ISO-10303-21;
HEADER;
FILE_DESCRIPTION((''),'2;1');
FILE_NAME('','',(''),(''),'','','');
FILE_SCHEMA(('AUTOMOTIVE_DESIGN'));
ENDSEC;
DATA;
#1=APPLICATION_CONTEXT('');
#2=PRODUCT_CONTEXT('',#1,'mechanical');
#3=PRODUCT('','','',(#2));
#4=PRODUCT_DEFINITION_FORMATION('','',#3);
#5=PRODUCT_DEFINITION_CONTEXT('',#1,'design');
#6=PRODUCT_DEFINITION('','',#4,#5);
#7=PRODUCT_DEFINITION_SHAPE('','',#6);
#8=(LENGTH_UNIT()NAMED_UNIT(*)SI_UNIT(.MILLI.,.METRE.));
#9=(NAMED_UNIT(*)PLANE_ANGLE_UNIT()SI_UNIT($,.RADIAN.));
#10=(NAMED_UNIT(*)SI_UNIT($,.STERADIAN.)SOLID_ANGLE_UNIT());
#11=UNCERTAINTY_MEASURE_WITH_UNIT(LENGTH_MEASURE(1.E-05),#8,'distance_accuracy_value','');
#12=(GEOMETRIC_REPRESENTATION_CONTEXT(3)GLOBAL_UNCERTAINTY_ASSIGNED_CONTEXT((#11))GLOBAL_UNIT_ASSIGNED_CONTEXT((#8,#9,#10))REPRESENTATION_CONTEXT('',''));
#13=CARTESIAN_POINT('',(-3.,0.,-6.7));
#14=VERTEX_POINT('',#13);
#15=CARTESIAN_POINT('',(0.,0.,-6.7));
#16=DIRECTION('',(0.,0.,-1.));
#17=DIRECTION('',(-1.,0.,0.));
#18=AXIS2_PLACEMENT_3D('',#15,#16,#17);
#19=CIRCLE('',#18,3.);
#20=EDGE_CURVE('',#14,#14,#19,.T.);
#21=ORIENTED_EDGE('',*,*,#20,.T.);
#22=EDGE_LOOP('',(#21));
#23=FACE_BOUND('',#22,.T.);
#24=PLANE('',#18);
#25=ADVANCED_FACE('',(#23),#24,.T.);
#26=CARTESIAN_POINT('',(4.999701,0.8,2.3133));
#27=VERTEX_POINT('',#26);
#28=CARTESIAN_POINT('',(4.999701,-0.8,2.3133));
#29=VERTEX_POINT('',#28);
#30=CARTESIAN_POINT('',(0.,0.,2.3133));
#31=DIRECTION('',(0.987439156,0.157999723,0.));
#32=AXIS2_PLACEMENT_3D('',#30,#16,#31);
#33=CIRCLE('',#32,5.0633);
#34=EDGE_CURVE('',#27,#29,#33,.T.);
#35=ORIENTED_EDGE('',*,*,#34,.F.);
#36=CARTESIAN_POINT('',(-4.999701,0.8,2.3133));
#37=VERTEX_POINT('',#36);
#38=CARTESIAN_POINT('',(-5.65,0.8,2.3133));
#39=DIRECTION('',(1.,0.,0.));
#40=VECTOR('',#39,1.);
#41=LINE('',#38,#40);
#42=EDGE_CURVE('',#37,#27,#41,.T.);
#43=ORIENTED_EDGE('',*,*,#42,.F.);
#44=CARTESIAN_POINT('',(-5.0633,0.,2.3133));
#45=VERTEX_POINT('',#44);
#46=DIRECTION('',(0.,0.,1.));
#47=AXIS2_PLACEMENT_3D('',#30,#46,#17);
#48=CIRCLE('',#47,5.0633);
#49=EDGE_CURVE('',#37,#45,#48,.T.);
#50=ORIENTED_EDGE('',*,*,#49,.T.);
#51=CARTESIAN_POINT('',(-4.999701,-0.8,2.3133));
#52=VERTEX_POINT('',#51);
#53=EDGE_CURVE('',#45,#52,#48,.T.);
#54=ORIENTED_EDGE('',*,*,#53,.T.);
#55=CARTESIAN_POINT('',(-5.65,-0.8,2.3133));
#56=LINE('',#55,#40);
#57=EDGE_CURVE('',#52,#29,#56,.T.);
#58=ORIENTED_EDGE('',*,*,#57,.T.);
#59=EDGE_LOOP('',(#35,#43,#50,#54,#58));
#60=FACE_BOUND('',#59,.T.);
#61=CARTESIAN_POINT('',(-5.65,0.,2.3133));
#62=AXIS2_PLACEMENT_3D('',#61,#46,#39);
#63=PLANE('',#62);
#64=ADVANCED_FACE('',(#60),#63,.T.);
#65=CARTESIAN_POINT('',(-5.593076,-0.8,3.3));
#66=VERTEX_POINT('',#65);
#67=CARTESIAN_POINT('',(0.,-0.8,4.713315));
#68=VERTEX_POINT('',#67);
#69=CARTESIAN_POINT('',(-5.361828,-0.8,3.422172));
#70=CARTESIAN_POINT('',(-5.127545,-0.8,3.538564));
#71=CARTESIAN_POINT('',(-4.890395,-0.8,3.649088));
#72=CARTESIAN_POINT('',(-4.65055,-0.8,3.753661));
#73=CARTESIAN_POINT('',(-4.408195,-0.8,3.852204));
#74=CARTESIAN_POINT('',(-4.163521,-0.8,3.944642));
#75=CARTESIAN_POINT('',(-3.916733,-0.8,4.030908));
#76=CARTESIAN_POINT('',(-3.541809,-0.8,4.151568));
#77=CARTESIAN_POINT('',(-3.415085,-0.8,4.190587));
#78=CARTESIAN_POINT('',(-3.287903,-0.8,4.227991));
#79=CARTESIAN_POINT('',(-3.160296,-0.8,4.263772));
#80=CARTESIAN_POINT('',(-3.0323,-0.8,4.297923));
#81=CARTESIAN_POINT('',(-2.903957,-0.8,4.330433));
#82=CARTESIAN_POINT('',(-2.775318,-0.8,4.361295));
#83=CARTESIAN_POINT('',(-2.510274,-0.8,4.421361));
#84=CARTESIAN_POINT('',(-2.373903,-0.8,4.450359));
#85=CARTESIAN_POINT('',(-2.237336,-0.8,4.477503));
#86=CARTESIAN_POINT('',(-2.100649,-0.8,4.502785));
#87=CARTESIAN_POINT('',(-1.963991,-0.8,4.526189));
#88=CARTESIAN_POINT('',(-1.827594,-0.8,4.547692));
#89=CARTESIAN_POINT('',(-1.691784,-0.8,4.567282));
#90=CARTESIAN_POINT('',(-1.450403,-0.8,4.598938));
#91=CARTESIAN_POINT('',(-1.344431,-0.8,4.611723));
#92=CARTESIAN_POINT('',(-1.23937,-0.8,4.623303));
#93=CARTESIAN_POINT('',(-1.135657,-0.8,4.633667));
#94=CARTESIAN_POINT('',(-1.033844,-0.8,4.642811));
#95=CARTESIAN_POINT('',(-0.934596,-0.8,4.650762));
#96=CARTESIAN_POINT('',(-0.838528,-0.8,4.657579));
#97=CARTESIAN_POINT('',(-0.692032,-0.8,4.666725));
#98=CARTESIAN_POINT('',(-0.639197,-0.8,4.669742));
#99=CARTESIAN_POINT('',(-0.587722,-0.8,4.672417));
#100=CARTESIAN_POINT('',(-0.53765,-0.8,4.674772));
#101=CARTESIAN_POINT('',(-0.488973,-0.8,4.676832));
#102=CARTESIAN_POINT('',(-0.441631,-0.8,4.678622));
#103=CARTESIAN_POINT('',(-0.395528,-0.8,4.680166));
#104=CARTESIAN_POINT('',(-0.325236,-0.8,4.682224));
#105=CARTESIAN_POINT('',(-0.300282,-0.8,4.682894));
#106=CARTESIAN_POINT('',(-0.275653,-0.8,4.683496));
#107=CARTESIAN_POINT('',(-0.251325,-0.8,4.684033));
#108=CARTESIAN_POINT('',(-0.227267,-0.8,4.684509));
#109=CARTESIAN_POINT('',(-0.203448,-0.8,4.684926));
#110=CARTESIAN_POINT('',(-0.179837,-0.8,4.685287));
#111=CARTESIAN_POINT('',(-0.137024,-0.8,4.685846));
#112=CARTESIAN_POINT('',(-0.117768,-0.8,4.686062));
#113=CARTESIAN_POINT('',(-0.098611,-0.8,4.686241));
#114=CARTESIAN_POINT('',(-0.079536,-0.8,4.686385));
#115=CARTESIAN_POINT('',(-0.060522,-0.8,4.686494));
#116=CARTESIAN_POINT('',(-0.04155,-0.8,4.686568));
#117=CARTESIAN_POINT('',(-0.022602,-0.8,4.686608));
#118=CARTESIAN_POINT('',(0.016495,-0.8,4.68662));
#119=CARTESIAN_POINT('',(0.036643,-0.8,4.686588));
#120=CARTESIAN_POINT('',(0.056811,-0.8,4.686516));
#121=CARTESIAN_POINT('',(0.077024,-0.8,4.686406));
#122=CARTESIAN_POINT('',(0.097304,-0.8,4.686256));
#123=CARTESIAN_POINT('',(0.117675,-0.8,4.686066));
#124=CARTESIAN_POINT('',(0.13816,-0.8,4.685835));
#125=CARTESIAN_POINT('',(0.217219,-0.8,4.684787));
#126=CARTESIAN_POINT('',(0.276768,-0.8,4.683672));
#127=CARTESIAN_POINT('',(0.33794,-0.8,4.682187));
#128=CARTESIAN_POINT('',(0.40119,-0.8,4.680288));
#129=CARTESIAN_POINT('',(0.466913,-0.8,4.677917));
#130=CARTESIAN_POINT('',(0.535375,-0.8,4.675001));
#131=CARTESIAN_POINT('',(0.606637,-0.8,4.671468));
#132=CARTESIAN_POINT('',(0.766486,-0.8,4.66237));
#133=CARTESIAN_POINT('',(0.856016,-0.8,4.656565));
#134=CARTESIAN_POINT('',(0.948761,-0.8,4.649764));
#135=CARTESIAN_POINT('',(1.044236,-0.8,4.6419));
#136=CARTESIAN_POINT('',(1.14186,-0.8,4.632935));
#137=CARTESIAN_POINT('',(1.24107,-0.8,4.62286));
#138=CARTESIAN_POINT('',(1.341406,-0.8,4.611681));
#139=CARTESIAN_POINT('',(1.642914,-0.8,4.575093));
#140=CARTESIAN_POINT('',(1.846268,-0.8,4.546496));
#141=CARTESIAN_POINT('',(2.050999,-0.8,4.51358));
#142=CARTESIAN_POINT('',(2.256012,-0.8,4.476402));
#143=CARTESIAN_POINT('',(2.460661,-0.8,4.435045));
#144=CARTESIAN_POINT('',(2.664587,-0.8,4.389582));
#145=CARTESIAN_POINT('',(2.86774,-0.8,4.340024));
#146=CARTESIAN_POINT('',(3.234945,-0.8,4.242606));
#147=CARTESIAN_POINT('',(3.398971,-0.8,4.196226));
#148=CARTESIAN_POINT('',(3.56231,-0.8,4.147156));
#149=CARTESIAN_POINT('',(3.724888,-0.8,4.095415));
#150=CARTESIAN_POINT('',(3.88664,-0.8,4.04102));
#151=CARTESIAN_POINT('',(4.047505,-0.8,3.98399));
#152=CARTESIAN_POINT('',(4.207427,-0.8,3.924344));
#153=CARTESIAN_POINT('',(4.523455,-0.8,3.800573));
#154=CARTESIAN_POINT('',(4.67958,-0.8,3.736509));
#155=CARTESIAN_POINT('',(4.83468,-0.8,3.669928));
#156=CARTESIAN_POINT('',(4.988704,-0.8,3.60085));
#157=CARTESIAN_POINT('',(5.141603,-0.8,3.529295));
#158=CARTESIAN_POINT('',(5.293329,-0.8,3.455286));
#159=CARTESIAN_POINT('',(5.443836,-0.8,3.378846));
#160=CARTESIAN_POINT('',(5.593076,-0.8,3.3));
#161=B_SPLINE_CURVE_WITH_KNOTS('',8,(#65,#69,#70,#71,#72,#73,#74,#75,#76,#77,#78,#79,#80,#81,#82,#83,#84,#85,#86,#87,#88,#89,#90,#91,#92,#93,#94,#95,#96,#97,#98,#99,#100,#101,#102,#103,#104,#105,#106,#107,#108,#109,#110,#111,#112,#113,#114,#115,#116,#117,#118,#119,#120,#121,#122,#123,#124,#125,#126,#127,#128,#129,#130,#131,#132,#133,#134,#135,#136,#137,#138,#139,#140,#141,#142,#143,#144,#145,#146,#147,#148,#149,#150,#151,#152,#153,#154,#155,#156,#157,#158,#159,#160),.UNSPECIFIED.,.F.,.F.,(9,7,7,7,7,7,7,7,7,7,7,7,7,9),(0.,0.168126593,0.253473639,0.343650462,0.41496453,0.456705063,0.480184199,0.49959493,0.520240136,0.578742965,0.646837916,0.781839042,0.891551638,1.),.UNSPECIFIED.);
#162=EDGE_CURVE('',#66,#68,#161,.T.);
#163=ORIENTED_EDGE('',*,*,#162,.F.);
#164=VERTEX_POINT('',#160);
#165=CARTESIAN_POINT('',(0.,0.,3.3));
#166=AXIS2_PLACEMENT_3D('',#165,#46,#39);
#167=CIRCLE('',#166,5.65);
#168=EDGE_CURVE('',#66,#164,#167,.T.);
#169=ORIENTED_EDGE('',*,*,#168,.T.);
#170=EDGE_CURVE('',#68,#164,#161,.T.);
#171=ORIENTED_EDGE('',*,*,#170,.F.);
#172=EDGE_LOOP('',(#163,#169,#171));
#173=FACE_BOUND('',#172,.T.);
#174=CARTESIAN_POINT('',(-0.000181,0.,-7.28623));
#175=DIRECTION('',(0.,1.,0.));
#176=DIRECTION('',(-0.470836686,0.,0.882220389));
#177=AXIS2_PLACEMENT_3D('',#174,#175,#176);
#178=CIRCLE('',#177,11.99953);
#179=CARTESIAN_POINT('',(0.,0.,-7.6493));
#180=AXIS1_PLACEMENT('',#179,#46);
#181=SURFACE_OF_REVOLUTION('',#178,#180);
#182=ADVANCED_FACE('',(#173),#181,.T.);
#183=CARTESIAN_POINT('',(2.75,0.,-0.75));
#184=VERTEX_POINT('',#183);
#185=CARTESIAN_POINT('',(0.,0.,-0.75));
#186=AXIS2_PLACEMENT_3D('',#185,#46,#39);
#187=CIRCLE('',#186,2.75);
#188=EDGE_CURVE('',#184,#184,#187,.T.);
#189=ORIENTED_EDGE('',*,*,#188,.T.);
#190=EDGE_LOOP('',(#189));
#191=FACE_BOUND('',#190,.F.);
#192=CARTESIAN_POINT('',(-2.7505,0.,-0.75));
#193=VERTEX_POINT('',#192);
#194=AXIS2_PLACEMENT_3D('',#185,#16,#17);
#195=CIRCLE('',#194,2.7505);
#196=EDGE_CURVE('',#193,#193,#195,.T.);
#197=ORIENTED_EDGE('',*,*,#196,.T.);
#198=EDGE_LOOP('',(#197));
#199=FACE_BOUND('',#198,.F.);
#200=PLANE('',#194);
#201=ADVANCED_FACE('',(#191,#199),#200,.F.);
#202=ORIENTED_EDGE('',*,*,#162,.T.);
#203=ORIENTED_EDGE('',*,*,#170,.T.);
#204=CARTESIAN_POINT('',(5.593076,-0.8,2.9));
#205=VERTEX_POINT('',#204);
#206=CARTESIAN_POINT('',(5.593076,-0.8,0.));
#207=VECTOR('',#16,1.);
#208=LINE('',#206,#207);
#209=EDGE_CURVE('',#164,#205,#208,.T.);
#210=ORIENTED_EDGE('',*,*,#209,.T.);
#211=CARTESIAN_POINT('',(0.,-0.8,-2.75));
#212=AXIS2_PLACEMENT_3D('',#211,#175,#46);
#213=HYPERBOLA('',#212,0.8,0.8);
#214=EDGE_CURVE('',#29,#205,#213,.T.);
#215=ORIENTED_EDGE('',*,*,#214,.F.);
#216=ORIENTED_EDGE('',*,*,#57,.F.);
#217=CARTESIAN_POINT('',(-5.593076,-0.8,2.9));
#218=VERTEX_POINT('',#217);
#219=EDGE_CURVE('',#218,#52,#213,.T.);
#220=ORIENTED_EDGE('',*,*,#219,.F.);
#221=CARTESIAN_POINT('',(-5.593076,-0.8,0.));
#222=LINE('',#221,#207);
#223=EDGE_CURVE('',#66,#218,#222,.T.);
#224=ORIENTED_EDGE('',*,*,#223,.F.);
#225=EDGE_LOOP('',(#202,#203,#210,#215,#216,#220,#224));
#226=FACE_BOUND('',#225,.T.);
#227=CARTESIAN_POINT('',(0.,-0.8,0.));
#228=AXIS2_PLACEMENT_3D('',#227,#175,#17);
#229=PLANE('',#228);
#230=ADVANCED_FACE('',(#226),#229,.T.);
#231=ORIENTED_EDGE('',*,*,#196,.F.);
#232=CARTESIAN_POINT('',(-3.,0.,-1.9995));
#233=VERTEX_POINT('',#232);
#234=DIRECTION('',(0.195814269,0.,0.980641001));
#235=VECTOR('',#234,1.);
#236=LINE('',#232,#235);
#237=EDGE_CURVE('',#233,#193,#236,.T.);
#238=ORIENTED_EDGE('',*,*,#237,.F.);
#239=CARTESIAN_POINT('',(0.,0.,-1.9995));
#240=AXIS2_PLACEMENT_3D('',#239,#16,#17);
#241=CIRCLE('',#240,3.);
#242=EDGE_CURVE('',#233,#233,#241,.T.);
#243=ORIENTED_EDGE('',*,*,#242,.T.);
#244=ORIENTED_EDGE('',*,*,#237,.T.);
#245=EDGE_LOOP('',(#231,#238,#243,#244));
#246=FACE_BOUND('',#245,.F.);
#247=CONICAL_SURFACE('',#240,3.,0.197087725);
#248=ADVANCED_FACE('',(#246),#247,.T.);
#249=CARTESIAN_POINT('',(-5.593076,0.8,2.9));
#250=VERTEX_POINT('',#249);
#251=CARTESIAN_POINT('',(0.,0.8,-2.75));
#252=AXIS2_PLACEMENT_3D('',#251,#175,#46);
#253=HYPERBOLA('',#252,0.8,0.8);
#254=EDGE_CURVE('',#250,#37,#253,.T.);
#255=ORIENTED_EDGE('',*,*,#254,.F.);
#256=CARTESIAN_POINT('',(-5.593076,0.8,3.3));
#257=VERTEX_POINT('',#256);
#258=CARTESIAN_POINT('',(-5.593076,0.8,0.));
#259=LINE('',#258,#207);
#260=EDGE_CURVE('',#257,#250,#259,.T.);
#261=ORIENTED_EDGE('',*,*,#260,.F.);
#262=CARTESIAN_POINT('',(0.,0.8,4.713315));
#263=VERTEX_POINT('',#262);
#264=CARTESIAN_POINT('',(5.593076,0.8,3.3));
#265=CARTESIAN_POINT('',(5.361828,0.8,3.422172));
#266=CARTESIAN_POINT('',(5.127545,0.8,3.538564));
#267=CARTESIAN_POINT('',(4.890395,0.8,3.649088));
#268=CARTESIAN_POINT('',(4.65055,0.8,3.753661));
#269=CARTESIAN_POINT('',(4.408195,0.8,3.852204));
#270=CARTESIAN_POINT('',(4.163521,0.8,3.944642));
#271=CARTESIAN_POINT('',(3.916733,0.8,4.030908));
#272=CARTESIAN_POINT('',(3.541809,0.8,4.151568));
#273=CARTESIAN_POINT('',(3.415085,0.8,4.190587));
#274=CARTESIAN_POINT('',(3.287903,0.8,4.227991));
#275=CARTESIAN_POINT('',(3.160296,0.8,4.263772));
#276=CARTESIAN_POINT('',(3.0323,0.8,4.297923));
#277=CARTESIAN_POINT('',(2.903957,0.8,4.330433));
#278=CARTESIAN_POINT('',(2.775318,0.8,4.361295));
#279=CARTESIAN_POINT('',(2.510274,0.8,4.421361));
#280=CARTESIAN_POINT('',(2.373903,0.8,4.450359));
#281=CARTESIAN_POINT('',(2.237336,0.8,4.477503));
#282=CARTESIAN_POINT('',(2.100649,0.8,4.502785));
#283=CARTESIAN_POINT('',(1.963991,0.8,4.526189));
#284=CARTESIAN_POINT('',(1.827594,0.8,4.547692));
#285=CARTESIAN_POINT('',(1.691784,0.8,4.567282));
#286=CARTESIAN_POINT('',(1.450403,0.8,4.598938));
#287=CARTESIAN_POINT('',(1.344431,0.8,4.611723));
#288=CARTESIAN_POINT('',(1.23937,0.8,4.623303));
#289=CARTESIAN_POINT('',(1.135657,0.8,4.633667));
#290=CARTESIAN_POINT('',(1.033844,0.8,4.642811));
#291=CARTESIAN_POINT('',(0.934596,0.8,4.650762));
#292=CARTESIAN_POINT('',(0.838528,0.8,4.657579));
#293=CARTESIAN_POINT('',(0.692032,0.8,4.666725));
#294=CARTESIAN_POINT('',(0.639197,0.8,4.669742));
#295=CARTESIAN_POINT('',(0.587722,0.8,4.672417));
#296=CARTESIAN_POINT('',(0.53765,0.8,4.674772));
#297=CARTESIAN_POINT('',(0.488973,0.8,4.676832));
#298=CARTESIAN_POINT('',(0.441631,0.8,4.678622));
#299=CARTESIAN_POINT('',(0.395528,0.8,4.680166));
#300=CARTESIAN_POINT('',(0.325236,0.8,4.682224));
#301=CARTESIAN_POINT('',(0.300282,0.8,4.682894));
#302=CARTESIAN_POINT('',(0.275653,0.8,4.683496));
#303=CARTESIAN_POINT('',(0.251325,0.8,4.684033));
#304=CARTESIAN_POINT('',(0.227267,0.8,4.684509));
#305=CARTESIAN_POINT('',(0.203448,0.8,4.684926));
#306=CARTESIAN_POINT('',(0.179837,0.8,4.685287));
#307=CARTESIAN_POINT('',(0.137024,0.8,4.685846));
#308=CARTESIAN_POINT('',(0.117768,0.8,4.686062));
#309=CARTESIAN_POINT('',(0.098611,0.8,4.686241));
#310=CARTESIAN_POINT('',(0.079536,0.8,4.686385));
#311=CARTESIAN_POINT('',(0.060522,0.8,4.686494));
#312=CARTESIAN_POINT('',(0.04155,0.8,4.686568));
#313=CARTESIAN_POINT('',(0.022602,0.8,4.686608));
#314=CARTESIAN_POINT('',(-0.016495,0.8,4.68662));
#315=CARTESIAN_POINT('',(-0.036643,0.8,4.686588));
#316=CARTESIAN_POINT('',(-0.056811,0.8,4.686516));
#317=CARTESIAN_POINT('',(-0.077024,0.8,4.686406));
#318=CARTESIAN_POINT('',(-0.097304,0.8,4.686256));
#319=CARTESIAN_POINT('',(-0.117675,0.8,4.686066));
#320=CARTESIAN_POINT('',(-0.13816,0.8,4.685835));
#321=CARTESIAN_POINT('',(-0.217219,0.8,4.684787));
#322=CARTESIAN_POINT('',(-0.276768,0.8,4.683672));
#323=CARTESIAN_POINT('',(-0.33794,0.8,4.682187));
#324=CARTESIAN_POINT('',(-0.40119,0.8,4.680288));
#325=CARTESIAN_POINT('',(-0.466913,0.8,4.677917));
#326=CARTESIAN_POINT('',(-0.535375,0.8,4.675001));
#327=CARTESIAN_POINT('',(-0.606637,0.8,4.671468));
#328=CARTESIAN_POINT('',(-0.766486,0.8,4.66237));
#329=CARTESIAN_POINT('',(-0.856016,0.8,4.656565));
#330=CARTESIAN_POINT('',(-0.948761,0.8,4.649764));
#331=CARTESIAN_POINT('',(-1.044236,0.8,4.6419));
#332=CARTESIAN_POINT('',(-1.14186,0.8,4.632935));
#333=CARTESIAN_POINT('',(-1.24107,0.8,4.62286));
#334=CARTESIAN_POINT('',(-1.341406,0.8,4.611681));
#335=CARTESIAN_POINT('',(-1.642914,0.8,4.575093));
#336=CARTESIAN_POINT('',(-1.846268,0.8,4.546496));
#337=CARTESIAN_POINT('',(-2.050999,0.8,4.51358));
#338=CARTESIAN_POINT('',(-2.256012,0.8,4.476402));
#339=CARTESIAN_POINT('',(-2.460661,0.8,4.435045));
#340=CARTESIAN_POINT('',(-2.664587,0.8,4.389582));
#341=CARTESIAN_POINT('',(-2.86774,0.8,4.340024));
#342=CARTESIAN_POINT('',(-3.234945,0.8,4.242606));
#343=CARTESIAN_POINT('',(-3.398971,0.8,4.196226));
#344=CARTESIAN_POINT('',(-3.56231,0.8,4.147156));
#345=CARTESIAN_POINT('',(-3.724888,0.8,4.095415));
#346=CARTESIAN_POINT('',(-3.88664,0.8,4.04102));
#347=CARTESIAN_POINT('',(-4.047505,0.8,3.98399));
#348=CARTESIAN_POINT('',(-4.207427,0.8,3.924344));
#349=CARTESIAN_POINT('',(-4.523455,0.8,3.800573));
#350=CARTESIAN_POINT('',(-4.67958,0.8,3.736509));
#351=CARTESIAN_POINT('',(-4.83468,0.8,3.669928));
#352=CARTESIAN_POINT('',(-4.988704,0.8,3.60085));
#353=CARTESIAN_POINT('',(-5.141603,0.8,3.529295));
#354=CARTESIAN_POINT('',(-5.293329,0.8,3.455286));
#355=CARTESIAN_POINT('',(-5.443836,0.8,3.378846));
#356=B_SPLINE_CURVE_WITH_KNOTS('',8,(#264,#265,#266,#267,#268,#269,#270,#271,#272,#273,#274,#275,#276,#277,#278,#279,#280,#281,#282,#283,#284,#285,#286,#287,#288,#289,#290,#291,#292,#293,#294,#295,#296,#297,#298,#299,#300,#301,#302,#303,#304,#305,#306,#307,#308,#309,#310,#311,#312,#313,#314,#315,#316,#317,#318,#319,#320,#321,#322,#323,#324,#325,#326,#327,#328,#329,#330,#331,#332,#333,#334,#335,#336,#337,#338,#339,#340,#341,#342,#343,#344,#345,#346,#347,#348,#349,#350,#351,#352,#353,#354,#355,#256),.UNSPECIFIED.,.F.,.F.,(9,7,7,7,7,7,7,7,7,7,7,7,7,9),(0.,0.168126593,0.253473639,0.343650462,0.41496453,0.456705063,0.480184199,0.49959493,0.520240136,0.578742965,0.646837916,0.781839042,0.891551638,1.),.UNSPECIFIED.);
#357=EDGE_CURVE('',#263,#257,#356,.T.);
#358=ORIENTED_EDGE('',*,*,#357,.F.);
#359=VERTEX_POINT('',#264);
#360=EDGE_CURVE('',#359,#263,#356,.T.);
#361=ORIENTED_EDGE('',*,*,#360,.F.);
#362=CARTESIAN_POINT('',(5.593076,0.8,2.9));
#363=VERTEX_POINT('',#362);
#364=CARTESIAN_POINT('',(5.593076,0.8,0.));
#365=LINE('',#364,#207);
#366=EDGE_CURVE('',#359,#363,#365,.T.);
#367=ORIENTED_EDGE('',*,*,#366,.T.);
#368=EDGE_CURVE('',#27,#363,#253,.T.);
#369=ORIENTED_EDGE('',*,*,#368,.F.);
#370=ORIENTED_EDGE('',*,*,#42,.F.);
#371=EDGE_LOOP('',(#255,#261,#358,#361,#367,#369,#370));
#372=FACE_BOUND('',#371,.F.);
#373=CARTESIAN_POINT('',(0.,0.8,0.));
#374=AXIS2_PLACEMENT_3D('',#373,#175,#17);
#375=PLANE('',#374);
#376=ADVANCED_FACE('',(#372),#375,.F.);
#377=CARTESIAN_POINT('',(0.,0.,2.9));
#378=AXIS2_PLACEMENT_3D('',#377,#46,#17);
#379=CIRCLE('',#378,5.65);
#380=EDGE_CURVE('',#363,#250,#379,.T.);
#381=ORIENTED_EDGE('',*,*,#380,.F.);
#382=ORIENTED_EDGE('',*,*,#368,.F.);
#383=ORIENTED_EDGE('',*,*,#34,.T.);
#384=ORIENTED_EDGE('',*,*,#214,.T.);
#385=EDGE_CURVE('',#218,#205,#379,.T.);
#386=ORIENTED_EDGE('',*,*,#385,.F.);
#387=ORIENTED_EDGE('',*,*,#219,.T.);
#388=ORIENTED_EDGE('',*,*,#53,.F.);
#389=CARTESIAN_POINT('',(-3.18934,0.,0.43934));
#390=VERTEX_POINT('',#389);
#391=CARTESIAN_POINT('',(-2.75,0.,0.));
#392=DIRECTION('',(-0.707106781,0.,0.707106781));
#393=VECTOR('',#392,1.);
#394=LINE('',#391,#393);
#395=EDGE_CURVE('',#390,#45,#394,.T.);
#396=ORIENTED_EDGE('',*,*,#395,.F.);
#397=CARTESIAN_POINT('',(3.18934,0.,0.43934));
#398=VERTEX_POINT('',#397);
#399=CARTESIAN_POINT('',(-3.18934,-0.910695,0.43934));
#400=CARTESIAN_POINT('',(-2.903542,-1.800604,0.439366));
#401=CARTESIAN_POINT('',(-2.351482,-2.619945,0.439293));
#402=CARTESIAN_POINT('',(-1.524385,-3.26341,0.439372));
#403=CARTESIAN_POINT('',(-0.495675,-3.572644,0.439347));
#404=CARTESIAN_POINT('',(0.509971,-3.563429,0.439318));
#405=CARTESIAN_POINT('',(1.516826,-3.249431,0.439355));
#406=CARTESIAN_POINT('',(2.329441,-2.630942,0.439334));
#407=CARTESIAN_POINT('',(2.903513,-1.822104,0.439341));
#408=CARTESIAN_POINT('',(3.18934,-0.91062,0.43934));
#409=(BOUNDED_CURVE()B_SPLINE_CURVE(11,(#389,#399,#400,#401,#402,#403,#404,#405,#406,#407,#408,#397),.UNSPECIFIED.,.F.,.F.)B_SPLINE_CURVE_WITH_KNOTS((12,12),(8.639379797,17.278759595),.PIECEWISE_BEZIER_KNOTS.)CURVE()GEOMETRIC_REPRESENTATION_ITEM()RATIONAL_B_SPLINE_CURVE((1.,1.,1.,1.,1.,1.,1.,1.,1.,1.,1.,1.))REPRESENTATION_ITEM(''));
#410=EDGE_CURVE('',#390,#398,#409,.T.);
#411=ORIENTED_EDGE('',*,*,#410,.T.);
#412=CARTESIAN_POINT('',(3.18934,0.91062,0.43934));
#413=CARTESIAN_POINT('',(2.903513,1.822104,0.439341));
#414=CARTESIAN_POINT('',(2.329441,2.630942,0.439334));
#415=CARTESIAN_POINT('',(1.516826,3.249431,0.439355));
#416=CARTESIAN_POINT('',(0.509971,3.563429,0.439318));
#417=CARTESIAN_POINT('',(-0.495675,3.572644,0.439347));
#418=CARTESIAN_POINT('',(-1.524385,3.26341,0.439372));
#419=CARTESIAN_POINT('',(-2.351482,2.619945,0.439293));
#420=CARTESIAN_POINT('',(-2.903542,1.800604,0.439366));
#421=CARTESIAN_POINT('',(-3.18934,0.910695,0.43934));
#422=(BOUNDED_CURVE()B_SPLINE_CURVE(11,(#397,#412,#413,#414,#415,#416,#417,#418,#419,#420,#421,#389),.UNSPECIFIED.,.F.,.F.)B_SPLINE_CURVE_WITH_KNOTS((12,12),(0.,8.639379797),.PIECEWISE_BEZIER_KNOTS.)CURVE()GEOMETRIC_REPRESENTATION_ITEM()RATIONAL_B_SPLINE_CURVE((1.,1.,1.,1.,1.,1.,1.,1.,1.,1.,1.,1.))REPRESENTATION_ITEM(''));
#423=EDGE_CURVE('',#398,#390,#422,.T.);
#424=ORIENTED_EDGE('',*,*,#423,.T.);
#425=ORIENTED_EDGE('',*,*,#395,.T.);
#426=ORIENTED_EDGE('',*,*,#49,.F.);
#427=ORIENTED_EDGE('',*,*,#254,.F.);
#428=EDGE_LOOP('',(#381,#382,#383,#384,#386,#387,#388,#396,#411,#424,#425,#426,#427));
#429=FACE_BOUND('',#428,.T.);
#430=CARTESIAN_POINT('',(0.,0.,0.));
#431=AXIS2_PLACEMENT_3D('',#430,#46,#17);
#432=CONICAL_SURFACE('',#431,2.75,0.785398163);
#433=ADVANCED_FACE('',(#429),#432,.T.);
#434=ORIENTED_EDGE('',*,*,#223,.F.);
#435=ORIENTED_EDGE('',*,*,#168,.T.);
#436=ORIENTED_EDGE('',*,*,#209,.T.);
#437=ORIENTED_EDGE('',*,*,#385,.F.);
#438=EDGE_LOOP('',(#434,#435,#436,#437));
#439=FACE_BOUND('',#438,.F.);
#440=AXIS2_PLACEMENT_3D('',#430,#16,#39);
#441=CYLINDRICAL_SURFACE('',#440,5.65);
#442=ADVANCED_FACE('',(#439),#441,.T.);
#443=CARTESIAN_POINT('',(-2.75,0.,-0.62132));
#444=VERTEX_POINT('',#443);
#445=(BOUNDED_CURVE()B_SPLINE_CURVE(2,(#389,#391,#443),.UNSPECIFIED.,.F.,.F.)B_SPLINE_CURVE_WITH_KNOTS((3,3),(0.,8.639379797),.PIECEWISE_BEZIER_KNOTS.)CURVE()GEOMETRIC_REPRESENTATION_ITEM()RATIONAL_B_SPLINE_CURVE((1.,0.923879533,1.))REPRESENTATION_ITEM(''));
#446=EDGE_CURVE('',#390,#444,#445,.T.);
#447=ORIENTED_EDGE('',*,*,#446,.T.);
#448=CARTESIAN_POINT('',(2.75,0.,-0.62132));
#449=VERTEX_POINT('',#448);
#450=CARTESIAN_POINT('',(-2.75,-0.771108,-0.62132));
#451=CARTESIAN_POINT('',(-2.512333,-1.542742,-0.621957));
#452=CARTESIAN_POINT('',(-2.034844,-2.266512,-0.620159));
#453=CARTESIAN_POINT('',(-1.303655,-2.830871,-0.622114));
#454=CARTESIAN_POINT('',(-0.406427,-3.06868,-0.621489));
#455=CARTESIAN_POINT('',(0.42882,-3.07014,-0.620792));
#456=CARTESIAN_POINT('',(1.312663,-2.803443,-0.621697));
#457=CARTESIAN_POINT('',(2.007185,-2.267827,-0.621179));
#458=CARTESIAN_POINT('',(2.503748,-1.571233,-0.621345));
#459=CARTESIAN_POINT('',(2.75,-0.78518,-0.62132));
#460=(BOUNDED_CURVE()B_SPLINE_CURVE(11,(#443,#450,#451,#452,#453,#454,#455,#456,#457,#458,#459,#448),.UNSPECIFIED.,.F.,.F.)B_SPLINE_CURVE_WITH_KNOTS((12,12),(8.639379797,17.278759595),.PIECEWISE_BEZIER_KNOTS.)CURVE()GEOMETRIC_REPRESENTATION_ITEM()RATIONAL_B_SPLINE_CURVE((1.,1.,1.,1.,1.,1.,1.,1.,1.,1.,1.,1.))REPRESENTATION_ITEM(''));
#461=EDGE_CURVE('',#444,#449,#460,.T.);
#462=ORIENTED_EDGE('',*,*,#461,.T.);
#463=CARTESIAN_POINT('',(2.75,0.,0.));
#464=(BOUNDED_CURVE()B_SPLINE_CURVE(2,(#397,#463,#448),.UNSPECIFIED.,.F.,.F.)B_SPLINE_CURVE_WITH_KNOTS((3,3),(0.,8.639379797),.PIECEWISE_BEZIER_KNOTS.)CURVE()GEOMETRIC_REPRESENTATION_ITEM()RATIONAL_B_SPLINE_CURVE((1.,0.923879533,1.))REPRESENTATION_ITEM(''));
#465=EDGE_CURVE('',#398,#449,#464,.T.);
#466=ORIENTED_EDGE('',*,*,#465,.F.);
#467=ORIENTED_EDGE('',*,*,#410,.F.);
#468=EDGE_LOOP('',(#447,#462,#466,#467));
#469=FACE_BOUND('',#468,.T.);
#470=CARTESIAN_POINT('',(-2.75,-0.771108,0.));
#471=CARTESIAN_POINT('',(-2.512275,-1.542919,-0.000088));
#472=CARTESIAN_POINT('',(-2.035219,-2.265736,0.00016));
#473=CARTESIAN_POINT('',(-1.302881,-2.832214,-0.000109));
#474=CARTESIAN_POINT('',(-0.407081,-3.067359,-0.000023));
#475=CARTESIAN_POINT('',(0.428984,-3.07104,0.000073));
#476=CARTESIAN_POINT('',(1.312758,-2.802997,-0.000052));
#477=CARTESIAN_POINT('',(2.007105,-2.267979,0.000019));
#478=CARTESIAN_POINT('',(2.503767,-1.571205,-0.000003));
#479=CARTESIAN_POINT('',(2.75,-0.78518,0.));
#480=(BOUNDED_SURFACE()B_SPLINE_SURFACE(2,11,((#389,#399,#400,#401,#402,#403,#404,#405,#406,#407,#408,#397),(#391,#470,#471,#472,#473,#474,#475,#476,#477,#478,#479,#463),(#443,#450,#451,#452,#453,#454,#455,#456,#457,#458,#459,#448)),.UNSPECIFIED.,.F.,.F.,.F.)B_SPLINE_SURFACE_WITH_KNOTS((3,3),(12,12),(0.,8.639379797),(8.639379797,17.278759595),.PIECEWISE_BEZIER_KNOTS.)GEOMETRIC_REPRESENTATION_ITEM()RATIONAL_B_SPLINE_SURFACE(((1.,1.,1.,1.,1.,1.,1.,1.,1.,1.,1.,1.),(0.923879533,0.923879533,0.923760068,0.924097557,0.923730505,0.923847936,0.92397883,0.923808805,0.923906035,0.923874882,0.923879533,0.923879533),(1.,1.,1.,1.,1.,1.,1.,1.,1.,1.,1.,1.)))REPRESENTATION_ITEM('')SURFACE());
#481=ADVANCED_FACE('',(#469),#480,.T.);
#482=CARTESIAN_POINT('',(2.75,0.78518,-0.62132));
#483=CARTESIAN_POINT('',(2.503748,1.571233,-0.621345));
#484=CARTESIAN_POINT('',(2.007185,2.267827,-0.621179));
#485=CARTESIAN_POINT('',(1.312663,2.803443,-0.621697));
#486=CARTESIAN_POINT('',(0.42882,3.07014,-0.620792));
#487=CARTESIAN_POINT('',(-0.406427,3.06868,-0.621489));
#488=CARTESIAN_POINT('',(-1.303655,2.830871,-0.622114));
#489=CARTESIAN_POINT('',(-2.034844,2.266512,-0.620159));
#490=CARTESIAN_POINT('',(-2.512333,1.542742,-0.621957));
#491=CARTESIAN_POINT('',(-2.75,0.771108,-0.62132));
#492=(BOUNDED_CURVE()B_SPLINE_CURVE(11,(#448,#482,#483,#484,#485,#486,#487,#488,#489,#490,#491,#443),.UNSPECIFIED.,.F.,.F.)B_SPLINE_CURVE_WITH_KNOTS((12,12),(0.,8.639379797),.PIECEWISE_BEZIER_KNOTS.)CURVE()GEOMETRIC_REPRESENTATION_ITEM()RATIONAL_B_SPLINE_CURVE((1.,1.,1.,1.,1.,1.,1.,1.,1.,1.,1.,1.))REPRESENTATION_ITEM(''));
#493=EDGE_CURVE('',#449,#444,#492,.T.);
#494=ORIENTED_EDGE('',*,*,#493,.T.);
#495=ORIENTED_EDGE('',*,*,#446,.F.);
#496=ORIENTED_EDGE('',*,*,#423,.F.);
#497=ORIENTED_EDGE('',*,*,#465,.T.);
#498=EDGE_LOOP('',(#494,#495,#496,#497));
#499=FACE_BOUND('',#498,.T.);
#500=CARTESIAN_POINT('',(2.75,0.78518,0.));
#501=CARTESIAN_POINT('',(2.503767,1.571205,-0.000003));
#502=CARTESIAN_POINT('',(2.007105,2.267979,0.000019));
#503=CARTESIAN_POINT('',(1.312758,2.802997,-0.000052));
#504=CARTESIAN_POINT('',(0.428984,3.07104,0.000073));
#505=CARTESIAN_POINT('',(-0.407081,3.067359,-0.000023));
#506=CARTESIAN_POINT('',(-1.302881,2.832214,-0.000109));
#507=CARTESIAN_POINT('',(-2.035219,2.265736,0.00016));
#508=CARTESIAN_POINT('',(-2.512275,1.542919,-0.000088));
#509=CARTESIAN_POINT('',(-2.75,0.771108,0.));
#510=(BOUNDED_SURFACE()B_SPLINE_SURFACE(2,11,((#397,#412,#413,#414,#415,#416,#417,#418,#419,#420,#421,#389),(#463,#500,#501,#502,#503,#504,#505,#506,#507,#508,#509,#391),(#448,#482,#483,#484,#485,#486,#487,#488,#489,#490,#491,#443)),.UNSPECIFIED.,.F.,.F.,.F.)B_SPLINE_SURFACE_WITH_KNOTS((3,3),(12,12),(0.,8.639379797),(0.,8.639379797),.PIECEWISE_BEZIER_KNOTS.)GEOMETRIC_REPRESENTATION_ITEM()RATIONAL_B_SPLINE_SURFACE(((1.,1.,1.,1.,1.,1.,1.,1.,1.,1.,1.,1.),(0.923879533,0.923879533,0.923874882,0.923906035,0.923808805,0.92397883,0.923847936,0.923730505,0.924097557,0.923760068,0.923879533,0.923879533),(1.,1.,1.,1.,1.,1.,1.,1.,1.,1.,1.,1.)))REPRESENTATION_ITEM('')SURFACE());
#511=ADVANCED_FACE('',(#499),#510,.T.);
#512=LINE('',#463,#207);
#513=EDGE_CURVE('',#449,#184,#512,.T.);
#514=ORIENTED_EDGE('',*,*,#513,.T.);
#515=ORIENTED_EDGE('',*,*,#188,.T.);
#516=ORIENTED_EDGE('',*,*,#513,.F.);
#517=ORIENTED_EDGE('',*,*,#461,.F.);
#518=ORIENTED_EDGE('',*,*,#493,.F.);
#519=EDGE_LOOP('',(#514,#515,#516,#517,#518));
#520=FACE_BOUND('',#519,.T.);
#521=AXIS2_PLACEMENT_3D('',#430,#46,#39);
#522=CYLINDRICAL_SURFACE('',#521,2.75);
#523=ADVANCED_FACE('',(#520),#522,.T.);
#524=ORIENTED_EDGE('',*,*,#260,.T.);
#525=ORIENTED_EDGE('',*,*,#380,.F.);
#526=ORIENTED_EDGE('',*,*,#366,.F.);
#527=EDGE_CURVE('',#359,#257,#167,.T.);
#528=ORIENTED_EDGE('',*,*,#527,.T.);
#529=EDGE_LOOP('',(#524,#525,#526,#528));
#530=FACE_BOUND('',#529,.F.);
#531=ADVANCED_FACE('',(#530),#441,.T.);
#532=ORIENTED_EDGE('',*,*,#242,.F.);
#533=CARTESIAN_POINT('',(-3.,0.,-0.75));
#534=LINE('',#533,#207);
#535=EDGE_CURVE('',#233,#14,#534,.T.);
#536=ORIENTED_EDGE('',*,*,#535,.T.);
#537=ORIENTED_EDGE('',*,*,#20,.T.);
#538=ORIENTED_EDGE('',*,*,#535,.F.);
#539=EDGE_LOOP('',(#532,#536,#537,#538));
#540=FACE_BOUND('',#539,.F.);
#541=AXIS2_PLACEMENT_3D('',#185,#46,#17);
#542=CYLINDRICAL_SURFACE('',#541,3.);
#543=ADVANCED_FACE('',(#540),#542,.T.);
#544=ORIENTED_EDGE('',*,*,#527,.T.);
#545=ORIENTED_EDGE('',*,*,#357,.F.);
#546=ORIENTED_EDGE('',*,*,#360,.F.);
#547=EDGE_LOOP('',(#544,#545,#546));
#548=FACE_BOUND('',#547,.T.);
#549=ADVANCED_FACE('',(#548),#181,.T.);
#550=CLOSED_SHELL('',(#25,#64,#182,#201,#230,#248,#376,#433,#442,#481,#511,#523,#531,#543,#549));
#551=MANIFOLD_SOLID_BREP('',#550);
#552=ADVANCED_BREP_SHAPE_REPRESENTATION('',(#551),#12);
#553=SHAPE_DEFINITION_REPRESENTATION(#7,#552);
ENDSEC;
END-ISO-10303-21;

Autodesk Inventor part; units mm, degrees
ref_plane "WorkPlane11" through (0, 0, 0) normal (0, 0, 1) x (1, 0, 0)
ref_plane "Work Plane2" through (0, 0, -5.7) normal (0, 0, 1) x (1, 0, 0)
ref_plane "WorkPlane9" through (0, 0, 8.3) normal (0, 0, 1) x (1, 0, 0)
sketch "Sketch1" plane through (0, 0, 0) normal (0, 0, 1) x (1, 0, 0)
  point P0 (0, 0)
sketch "Sketch2" plane through (0, 0, 0) normal (0, 0, 1) x (1, 0, 0)
  circle A0 centre (0, 0) radius 2.75
  dimension "d2" = 5.5
extrude "Extrusion1" add sketch "Sketch2" against normal blind 0.75
sketch "Sketch3" plane through (0, 0, -0.75) normal (0, 0, -1) x (-1, 0, 0)
  circle A0 centre (0, 0) radius 3
  circle A1 centre (0, 0) radius 2.75 construction
  dimension "d8" = 6
extrude "Extrusion2" add sketch "Sketch3" along normal blind 5.95
sketch "Sketch4" plane through (0, 0, 0) normal (0, 0, 1) x (1, 0, 0)
  circle A0 centre (0, 0) radius 5.65
  circle A1 centre (0, 0) radius 2.75 construction
  dimension "d12" = 11.3
extrude "Extrusion3" add sketch "Sketch4" along normal blind 3.3
sketch "Sketch5" plane through (0, 0, 0) normal (0, 1, 0) x (-1, 0, 0)
  line L0 (5.65, 0) -> (2.75, 0)
  line L1 (5.65, 2.9) -> (5.65, 0)
  line L2 (2.75, 0) -> (5.65, 2.9)
  line L3 (-5.65, 0) -> (5.65, 0) construction
  line L4 (0, -7.6493) -> (0, 5.8993)
  line L5 (0, -10.359) -> (0, 8.609) projected
  line L6 (5.65, 0) -> (5.65, 3.3) projected
  line L7 (-4.75, 0) -> (4.75, 0) projected
  line L8 (2.75, 0) -> (2.75, -0.75) projected
  dimension "d17" = 45
revolve "Revolution1" cut sketch "Sketch5" angle 360 about axis through (0, 0, -7.6493) along (0, 0, 1)
sketch "Sketch6" plane through (0, 0, 0) normal (0, 1, 0) x (-1, 0, 0)
  line L0 (0, 3.3) -> (0, 4.7133)
  line L1 (0, 3.3) -> (5.65, 3.3)
  arc A0 (5.65, 3.3) -> (0, 4.7133) centre (0, -7.2867) ccw
  line L2 (-5.65, 3.3) -> (5.65, 3.3) construction
  line L3 (0, -7.6493) -> (0, 5.8993)
  line L4 (0, -10.359) -> (0, 8.609) projected
  line L5 (5.65, 2.9) -> (5.65, 3.3) projected
  arc A1 (0, 4.7133) -> (-5.65, 3.3) centre (0, -7.2867) ccw
  dimension "d20" = 12
  dimension "d24" = 5.65
revolve "Revolution2" add sketch "Sketch6" angle 360 about axis through (0, 0, -7.6493) along (0, 0, 1)
fillet "Fillet1" radius 1.5 2 edges at (0, 2.75, 0) (0, -2.75, 0)
chamfer "Chamfer1" distance 1.25 distance2 0.25 1 edges at (3, 0, -0.75) measured on face at (-2.9612, -0.4812, -4.7167)
sketch "Sketch8" plane through (0, 0, 0) normal (0, 1, 0) x (-1, 0, 0)
  line L0 (-5.65, 4.7133) -> (5.65, 4.7133)
  line L1 (5.65, 4.7133) -> (5.65, 2.3133)
  line L2 (5.65, 2.3133) -> (-5.65, 2.3133)
  line L3 (-5.65, 2.3133) -> (-5.65, 4.7133)
  arc A0 (5.65, 3.3) -> (-5.65, 3.3) centre (0, -7.2867) ccw projected
  line L4 (-5.65, 2.9) -> (-5.65, 3.3) projected
  line L5 (5.65, 2.9) -> (5.65, 3.3) projected
  dimension "msp_d31" = 2.4
extrude "Extrusion4" cut sketch "Sketch8" against normal mid plane 1.6
thread "Thread1" size "M6x1" class "6g" standard "ISO Metric profile" full length
ref_plane "MSC_PF1" through (0, 0, 0) normal (1, 0, 0) x (0, 1, 0)
ref_plane "MSC_PT1" through (-5.65, 0, 2.9) normal (0, 0, -1) x (-1, 0, 0)
equation "\"d28\" = r"
equation "\"d29\" = msp_x"
equation "\"d30\" = 0.25 * PTC"
equation "\"d3\" = -msp_x + ParA"
equation "\"d8\" = NND"
equation "\"d9\" = msp_x - ParK + NLG - ParA"
equation "\"d12\" = Dk"
equation "\"d13\" = ParK"
equation "\"msp_d31\" = ParT"
equation "\"msp_d32\" = ParN"
equation "\"d2\" = 0.5 * PTC + msp_mdtds"
equation "\"d20\" = rf"
equation "\"d24\" = 0.5 * Dk"
equation "\"PTC\" = 1"
equation "\"NND\" = 6"
equation "\"msp_x\" = 1.25 * PTC"
equation "\"NLG\" = 10"
equation "\"msp_mdtds\" = NND - PTC"
equation "\"ParK\" = 3.3"
equation "\"ParN\" = 1.6"
equation "\"ParT\" = 2.4"
equation "\"r\" = 1.5"
equation "\"prf_c\" = 0"
equation "\"ParA\" = 2"
equation "\"Dk\" = 11.3"
equation "\"rf\" = 12"
equation "\"ParF\" = 1.4"
equation "\"THREADDIA\" = NND"
equation "\"PG\" = 1.2345"
equation "\"TEMPLATE\" = 1.2345"
properties part number "ISO 2010 - M6x10" material "Stainless Steel, 440C"
